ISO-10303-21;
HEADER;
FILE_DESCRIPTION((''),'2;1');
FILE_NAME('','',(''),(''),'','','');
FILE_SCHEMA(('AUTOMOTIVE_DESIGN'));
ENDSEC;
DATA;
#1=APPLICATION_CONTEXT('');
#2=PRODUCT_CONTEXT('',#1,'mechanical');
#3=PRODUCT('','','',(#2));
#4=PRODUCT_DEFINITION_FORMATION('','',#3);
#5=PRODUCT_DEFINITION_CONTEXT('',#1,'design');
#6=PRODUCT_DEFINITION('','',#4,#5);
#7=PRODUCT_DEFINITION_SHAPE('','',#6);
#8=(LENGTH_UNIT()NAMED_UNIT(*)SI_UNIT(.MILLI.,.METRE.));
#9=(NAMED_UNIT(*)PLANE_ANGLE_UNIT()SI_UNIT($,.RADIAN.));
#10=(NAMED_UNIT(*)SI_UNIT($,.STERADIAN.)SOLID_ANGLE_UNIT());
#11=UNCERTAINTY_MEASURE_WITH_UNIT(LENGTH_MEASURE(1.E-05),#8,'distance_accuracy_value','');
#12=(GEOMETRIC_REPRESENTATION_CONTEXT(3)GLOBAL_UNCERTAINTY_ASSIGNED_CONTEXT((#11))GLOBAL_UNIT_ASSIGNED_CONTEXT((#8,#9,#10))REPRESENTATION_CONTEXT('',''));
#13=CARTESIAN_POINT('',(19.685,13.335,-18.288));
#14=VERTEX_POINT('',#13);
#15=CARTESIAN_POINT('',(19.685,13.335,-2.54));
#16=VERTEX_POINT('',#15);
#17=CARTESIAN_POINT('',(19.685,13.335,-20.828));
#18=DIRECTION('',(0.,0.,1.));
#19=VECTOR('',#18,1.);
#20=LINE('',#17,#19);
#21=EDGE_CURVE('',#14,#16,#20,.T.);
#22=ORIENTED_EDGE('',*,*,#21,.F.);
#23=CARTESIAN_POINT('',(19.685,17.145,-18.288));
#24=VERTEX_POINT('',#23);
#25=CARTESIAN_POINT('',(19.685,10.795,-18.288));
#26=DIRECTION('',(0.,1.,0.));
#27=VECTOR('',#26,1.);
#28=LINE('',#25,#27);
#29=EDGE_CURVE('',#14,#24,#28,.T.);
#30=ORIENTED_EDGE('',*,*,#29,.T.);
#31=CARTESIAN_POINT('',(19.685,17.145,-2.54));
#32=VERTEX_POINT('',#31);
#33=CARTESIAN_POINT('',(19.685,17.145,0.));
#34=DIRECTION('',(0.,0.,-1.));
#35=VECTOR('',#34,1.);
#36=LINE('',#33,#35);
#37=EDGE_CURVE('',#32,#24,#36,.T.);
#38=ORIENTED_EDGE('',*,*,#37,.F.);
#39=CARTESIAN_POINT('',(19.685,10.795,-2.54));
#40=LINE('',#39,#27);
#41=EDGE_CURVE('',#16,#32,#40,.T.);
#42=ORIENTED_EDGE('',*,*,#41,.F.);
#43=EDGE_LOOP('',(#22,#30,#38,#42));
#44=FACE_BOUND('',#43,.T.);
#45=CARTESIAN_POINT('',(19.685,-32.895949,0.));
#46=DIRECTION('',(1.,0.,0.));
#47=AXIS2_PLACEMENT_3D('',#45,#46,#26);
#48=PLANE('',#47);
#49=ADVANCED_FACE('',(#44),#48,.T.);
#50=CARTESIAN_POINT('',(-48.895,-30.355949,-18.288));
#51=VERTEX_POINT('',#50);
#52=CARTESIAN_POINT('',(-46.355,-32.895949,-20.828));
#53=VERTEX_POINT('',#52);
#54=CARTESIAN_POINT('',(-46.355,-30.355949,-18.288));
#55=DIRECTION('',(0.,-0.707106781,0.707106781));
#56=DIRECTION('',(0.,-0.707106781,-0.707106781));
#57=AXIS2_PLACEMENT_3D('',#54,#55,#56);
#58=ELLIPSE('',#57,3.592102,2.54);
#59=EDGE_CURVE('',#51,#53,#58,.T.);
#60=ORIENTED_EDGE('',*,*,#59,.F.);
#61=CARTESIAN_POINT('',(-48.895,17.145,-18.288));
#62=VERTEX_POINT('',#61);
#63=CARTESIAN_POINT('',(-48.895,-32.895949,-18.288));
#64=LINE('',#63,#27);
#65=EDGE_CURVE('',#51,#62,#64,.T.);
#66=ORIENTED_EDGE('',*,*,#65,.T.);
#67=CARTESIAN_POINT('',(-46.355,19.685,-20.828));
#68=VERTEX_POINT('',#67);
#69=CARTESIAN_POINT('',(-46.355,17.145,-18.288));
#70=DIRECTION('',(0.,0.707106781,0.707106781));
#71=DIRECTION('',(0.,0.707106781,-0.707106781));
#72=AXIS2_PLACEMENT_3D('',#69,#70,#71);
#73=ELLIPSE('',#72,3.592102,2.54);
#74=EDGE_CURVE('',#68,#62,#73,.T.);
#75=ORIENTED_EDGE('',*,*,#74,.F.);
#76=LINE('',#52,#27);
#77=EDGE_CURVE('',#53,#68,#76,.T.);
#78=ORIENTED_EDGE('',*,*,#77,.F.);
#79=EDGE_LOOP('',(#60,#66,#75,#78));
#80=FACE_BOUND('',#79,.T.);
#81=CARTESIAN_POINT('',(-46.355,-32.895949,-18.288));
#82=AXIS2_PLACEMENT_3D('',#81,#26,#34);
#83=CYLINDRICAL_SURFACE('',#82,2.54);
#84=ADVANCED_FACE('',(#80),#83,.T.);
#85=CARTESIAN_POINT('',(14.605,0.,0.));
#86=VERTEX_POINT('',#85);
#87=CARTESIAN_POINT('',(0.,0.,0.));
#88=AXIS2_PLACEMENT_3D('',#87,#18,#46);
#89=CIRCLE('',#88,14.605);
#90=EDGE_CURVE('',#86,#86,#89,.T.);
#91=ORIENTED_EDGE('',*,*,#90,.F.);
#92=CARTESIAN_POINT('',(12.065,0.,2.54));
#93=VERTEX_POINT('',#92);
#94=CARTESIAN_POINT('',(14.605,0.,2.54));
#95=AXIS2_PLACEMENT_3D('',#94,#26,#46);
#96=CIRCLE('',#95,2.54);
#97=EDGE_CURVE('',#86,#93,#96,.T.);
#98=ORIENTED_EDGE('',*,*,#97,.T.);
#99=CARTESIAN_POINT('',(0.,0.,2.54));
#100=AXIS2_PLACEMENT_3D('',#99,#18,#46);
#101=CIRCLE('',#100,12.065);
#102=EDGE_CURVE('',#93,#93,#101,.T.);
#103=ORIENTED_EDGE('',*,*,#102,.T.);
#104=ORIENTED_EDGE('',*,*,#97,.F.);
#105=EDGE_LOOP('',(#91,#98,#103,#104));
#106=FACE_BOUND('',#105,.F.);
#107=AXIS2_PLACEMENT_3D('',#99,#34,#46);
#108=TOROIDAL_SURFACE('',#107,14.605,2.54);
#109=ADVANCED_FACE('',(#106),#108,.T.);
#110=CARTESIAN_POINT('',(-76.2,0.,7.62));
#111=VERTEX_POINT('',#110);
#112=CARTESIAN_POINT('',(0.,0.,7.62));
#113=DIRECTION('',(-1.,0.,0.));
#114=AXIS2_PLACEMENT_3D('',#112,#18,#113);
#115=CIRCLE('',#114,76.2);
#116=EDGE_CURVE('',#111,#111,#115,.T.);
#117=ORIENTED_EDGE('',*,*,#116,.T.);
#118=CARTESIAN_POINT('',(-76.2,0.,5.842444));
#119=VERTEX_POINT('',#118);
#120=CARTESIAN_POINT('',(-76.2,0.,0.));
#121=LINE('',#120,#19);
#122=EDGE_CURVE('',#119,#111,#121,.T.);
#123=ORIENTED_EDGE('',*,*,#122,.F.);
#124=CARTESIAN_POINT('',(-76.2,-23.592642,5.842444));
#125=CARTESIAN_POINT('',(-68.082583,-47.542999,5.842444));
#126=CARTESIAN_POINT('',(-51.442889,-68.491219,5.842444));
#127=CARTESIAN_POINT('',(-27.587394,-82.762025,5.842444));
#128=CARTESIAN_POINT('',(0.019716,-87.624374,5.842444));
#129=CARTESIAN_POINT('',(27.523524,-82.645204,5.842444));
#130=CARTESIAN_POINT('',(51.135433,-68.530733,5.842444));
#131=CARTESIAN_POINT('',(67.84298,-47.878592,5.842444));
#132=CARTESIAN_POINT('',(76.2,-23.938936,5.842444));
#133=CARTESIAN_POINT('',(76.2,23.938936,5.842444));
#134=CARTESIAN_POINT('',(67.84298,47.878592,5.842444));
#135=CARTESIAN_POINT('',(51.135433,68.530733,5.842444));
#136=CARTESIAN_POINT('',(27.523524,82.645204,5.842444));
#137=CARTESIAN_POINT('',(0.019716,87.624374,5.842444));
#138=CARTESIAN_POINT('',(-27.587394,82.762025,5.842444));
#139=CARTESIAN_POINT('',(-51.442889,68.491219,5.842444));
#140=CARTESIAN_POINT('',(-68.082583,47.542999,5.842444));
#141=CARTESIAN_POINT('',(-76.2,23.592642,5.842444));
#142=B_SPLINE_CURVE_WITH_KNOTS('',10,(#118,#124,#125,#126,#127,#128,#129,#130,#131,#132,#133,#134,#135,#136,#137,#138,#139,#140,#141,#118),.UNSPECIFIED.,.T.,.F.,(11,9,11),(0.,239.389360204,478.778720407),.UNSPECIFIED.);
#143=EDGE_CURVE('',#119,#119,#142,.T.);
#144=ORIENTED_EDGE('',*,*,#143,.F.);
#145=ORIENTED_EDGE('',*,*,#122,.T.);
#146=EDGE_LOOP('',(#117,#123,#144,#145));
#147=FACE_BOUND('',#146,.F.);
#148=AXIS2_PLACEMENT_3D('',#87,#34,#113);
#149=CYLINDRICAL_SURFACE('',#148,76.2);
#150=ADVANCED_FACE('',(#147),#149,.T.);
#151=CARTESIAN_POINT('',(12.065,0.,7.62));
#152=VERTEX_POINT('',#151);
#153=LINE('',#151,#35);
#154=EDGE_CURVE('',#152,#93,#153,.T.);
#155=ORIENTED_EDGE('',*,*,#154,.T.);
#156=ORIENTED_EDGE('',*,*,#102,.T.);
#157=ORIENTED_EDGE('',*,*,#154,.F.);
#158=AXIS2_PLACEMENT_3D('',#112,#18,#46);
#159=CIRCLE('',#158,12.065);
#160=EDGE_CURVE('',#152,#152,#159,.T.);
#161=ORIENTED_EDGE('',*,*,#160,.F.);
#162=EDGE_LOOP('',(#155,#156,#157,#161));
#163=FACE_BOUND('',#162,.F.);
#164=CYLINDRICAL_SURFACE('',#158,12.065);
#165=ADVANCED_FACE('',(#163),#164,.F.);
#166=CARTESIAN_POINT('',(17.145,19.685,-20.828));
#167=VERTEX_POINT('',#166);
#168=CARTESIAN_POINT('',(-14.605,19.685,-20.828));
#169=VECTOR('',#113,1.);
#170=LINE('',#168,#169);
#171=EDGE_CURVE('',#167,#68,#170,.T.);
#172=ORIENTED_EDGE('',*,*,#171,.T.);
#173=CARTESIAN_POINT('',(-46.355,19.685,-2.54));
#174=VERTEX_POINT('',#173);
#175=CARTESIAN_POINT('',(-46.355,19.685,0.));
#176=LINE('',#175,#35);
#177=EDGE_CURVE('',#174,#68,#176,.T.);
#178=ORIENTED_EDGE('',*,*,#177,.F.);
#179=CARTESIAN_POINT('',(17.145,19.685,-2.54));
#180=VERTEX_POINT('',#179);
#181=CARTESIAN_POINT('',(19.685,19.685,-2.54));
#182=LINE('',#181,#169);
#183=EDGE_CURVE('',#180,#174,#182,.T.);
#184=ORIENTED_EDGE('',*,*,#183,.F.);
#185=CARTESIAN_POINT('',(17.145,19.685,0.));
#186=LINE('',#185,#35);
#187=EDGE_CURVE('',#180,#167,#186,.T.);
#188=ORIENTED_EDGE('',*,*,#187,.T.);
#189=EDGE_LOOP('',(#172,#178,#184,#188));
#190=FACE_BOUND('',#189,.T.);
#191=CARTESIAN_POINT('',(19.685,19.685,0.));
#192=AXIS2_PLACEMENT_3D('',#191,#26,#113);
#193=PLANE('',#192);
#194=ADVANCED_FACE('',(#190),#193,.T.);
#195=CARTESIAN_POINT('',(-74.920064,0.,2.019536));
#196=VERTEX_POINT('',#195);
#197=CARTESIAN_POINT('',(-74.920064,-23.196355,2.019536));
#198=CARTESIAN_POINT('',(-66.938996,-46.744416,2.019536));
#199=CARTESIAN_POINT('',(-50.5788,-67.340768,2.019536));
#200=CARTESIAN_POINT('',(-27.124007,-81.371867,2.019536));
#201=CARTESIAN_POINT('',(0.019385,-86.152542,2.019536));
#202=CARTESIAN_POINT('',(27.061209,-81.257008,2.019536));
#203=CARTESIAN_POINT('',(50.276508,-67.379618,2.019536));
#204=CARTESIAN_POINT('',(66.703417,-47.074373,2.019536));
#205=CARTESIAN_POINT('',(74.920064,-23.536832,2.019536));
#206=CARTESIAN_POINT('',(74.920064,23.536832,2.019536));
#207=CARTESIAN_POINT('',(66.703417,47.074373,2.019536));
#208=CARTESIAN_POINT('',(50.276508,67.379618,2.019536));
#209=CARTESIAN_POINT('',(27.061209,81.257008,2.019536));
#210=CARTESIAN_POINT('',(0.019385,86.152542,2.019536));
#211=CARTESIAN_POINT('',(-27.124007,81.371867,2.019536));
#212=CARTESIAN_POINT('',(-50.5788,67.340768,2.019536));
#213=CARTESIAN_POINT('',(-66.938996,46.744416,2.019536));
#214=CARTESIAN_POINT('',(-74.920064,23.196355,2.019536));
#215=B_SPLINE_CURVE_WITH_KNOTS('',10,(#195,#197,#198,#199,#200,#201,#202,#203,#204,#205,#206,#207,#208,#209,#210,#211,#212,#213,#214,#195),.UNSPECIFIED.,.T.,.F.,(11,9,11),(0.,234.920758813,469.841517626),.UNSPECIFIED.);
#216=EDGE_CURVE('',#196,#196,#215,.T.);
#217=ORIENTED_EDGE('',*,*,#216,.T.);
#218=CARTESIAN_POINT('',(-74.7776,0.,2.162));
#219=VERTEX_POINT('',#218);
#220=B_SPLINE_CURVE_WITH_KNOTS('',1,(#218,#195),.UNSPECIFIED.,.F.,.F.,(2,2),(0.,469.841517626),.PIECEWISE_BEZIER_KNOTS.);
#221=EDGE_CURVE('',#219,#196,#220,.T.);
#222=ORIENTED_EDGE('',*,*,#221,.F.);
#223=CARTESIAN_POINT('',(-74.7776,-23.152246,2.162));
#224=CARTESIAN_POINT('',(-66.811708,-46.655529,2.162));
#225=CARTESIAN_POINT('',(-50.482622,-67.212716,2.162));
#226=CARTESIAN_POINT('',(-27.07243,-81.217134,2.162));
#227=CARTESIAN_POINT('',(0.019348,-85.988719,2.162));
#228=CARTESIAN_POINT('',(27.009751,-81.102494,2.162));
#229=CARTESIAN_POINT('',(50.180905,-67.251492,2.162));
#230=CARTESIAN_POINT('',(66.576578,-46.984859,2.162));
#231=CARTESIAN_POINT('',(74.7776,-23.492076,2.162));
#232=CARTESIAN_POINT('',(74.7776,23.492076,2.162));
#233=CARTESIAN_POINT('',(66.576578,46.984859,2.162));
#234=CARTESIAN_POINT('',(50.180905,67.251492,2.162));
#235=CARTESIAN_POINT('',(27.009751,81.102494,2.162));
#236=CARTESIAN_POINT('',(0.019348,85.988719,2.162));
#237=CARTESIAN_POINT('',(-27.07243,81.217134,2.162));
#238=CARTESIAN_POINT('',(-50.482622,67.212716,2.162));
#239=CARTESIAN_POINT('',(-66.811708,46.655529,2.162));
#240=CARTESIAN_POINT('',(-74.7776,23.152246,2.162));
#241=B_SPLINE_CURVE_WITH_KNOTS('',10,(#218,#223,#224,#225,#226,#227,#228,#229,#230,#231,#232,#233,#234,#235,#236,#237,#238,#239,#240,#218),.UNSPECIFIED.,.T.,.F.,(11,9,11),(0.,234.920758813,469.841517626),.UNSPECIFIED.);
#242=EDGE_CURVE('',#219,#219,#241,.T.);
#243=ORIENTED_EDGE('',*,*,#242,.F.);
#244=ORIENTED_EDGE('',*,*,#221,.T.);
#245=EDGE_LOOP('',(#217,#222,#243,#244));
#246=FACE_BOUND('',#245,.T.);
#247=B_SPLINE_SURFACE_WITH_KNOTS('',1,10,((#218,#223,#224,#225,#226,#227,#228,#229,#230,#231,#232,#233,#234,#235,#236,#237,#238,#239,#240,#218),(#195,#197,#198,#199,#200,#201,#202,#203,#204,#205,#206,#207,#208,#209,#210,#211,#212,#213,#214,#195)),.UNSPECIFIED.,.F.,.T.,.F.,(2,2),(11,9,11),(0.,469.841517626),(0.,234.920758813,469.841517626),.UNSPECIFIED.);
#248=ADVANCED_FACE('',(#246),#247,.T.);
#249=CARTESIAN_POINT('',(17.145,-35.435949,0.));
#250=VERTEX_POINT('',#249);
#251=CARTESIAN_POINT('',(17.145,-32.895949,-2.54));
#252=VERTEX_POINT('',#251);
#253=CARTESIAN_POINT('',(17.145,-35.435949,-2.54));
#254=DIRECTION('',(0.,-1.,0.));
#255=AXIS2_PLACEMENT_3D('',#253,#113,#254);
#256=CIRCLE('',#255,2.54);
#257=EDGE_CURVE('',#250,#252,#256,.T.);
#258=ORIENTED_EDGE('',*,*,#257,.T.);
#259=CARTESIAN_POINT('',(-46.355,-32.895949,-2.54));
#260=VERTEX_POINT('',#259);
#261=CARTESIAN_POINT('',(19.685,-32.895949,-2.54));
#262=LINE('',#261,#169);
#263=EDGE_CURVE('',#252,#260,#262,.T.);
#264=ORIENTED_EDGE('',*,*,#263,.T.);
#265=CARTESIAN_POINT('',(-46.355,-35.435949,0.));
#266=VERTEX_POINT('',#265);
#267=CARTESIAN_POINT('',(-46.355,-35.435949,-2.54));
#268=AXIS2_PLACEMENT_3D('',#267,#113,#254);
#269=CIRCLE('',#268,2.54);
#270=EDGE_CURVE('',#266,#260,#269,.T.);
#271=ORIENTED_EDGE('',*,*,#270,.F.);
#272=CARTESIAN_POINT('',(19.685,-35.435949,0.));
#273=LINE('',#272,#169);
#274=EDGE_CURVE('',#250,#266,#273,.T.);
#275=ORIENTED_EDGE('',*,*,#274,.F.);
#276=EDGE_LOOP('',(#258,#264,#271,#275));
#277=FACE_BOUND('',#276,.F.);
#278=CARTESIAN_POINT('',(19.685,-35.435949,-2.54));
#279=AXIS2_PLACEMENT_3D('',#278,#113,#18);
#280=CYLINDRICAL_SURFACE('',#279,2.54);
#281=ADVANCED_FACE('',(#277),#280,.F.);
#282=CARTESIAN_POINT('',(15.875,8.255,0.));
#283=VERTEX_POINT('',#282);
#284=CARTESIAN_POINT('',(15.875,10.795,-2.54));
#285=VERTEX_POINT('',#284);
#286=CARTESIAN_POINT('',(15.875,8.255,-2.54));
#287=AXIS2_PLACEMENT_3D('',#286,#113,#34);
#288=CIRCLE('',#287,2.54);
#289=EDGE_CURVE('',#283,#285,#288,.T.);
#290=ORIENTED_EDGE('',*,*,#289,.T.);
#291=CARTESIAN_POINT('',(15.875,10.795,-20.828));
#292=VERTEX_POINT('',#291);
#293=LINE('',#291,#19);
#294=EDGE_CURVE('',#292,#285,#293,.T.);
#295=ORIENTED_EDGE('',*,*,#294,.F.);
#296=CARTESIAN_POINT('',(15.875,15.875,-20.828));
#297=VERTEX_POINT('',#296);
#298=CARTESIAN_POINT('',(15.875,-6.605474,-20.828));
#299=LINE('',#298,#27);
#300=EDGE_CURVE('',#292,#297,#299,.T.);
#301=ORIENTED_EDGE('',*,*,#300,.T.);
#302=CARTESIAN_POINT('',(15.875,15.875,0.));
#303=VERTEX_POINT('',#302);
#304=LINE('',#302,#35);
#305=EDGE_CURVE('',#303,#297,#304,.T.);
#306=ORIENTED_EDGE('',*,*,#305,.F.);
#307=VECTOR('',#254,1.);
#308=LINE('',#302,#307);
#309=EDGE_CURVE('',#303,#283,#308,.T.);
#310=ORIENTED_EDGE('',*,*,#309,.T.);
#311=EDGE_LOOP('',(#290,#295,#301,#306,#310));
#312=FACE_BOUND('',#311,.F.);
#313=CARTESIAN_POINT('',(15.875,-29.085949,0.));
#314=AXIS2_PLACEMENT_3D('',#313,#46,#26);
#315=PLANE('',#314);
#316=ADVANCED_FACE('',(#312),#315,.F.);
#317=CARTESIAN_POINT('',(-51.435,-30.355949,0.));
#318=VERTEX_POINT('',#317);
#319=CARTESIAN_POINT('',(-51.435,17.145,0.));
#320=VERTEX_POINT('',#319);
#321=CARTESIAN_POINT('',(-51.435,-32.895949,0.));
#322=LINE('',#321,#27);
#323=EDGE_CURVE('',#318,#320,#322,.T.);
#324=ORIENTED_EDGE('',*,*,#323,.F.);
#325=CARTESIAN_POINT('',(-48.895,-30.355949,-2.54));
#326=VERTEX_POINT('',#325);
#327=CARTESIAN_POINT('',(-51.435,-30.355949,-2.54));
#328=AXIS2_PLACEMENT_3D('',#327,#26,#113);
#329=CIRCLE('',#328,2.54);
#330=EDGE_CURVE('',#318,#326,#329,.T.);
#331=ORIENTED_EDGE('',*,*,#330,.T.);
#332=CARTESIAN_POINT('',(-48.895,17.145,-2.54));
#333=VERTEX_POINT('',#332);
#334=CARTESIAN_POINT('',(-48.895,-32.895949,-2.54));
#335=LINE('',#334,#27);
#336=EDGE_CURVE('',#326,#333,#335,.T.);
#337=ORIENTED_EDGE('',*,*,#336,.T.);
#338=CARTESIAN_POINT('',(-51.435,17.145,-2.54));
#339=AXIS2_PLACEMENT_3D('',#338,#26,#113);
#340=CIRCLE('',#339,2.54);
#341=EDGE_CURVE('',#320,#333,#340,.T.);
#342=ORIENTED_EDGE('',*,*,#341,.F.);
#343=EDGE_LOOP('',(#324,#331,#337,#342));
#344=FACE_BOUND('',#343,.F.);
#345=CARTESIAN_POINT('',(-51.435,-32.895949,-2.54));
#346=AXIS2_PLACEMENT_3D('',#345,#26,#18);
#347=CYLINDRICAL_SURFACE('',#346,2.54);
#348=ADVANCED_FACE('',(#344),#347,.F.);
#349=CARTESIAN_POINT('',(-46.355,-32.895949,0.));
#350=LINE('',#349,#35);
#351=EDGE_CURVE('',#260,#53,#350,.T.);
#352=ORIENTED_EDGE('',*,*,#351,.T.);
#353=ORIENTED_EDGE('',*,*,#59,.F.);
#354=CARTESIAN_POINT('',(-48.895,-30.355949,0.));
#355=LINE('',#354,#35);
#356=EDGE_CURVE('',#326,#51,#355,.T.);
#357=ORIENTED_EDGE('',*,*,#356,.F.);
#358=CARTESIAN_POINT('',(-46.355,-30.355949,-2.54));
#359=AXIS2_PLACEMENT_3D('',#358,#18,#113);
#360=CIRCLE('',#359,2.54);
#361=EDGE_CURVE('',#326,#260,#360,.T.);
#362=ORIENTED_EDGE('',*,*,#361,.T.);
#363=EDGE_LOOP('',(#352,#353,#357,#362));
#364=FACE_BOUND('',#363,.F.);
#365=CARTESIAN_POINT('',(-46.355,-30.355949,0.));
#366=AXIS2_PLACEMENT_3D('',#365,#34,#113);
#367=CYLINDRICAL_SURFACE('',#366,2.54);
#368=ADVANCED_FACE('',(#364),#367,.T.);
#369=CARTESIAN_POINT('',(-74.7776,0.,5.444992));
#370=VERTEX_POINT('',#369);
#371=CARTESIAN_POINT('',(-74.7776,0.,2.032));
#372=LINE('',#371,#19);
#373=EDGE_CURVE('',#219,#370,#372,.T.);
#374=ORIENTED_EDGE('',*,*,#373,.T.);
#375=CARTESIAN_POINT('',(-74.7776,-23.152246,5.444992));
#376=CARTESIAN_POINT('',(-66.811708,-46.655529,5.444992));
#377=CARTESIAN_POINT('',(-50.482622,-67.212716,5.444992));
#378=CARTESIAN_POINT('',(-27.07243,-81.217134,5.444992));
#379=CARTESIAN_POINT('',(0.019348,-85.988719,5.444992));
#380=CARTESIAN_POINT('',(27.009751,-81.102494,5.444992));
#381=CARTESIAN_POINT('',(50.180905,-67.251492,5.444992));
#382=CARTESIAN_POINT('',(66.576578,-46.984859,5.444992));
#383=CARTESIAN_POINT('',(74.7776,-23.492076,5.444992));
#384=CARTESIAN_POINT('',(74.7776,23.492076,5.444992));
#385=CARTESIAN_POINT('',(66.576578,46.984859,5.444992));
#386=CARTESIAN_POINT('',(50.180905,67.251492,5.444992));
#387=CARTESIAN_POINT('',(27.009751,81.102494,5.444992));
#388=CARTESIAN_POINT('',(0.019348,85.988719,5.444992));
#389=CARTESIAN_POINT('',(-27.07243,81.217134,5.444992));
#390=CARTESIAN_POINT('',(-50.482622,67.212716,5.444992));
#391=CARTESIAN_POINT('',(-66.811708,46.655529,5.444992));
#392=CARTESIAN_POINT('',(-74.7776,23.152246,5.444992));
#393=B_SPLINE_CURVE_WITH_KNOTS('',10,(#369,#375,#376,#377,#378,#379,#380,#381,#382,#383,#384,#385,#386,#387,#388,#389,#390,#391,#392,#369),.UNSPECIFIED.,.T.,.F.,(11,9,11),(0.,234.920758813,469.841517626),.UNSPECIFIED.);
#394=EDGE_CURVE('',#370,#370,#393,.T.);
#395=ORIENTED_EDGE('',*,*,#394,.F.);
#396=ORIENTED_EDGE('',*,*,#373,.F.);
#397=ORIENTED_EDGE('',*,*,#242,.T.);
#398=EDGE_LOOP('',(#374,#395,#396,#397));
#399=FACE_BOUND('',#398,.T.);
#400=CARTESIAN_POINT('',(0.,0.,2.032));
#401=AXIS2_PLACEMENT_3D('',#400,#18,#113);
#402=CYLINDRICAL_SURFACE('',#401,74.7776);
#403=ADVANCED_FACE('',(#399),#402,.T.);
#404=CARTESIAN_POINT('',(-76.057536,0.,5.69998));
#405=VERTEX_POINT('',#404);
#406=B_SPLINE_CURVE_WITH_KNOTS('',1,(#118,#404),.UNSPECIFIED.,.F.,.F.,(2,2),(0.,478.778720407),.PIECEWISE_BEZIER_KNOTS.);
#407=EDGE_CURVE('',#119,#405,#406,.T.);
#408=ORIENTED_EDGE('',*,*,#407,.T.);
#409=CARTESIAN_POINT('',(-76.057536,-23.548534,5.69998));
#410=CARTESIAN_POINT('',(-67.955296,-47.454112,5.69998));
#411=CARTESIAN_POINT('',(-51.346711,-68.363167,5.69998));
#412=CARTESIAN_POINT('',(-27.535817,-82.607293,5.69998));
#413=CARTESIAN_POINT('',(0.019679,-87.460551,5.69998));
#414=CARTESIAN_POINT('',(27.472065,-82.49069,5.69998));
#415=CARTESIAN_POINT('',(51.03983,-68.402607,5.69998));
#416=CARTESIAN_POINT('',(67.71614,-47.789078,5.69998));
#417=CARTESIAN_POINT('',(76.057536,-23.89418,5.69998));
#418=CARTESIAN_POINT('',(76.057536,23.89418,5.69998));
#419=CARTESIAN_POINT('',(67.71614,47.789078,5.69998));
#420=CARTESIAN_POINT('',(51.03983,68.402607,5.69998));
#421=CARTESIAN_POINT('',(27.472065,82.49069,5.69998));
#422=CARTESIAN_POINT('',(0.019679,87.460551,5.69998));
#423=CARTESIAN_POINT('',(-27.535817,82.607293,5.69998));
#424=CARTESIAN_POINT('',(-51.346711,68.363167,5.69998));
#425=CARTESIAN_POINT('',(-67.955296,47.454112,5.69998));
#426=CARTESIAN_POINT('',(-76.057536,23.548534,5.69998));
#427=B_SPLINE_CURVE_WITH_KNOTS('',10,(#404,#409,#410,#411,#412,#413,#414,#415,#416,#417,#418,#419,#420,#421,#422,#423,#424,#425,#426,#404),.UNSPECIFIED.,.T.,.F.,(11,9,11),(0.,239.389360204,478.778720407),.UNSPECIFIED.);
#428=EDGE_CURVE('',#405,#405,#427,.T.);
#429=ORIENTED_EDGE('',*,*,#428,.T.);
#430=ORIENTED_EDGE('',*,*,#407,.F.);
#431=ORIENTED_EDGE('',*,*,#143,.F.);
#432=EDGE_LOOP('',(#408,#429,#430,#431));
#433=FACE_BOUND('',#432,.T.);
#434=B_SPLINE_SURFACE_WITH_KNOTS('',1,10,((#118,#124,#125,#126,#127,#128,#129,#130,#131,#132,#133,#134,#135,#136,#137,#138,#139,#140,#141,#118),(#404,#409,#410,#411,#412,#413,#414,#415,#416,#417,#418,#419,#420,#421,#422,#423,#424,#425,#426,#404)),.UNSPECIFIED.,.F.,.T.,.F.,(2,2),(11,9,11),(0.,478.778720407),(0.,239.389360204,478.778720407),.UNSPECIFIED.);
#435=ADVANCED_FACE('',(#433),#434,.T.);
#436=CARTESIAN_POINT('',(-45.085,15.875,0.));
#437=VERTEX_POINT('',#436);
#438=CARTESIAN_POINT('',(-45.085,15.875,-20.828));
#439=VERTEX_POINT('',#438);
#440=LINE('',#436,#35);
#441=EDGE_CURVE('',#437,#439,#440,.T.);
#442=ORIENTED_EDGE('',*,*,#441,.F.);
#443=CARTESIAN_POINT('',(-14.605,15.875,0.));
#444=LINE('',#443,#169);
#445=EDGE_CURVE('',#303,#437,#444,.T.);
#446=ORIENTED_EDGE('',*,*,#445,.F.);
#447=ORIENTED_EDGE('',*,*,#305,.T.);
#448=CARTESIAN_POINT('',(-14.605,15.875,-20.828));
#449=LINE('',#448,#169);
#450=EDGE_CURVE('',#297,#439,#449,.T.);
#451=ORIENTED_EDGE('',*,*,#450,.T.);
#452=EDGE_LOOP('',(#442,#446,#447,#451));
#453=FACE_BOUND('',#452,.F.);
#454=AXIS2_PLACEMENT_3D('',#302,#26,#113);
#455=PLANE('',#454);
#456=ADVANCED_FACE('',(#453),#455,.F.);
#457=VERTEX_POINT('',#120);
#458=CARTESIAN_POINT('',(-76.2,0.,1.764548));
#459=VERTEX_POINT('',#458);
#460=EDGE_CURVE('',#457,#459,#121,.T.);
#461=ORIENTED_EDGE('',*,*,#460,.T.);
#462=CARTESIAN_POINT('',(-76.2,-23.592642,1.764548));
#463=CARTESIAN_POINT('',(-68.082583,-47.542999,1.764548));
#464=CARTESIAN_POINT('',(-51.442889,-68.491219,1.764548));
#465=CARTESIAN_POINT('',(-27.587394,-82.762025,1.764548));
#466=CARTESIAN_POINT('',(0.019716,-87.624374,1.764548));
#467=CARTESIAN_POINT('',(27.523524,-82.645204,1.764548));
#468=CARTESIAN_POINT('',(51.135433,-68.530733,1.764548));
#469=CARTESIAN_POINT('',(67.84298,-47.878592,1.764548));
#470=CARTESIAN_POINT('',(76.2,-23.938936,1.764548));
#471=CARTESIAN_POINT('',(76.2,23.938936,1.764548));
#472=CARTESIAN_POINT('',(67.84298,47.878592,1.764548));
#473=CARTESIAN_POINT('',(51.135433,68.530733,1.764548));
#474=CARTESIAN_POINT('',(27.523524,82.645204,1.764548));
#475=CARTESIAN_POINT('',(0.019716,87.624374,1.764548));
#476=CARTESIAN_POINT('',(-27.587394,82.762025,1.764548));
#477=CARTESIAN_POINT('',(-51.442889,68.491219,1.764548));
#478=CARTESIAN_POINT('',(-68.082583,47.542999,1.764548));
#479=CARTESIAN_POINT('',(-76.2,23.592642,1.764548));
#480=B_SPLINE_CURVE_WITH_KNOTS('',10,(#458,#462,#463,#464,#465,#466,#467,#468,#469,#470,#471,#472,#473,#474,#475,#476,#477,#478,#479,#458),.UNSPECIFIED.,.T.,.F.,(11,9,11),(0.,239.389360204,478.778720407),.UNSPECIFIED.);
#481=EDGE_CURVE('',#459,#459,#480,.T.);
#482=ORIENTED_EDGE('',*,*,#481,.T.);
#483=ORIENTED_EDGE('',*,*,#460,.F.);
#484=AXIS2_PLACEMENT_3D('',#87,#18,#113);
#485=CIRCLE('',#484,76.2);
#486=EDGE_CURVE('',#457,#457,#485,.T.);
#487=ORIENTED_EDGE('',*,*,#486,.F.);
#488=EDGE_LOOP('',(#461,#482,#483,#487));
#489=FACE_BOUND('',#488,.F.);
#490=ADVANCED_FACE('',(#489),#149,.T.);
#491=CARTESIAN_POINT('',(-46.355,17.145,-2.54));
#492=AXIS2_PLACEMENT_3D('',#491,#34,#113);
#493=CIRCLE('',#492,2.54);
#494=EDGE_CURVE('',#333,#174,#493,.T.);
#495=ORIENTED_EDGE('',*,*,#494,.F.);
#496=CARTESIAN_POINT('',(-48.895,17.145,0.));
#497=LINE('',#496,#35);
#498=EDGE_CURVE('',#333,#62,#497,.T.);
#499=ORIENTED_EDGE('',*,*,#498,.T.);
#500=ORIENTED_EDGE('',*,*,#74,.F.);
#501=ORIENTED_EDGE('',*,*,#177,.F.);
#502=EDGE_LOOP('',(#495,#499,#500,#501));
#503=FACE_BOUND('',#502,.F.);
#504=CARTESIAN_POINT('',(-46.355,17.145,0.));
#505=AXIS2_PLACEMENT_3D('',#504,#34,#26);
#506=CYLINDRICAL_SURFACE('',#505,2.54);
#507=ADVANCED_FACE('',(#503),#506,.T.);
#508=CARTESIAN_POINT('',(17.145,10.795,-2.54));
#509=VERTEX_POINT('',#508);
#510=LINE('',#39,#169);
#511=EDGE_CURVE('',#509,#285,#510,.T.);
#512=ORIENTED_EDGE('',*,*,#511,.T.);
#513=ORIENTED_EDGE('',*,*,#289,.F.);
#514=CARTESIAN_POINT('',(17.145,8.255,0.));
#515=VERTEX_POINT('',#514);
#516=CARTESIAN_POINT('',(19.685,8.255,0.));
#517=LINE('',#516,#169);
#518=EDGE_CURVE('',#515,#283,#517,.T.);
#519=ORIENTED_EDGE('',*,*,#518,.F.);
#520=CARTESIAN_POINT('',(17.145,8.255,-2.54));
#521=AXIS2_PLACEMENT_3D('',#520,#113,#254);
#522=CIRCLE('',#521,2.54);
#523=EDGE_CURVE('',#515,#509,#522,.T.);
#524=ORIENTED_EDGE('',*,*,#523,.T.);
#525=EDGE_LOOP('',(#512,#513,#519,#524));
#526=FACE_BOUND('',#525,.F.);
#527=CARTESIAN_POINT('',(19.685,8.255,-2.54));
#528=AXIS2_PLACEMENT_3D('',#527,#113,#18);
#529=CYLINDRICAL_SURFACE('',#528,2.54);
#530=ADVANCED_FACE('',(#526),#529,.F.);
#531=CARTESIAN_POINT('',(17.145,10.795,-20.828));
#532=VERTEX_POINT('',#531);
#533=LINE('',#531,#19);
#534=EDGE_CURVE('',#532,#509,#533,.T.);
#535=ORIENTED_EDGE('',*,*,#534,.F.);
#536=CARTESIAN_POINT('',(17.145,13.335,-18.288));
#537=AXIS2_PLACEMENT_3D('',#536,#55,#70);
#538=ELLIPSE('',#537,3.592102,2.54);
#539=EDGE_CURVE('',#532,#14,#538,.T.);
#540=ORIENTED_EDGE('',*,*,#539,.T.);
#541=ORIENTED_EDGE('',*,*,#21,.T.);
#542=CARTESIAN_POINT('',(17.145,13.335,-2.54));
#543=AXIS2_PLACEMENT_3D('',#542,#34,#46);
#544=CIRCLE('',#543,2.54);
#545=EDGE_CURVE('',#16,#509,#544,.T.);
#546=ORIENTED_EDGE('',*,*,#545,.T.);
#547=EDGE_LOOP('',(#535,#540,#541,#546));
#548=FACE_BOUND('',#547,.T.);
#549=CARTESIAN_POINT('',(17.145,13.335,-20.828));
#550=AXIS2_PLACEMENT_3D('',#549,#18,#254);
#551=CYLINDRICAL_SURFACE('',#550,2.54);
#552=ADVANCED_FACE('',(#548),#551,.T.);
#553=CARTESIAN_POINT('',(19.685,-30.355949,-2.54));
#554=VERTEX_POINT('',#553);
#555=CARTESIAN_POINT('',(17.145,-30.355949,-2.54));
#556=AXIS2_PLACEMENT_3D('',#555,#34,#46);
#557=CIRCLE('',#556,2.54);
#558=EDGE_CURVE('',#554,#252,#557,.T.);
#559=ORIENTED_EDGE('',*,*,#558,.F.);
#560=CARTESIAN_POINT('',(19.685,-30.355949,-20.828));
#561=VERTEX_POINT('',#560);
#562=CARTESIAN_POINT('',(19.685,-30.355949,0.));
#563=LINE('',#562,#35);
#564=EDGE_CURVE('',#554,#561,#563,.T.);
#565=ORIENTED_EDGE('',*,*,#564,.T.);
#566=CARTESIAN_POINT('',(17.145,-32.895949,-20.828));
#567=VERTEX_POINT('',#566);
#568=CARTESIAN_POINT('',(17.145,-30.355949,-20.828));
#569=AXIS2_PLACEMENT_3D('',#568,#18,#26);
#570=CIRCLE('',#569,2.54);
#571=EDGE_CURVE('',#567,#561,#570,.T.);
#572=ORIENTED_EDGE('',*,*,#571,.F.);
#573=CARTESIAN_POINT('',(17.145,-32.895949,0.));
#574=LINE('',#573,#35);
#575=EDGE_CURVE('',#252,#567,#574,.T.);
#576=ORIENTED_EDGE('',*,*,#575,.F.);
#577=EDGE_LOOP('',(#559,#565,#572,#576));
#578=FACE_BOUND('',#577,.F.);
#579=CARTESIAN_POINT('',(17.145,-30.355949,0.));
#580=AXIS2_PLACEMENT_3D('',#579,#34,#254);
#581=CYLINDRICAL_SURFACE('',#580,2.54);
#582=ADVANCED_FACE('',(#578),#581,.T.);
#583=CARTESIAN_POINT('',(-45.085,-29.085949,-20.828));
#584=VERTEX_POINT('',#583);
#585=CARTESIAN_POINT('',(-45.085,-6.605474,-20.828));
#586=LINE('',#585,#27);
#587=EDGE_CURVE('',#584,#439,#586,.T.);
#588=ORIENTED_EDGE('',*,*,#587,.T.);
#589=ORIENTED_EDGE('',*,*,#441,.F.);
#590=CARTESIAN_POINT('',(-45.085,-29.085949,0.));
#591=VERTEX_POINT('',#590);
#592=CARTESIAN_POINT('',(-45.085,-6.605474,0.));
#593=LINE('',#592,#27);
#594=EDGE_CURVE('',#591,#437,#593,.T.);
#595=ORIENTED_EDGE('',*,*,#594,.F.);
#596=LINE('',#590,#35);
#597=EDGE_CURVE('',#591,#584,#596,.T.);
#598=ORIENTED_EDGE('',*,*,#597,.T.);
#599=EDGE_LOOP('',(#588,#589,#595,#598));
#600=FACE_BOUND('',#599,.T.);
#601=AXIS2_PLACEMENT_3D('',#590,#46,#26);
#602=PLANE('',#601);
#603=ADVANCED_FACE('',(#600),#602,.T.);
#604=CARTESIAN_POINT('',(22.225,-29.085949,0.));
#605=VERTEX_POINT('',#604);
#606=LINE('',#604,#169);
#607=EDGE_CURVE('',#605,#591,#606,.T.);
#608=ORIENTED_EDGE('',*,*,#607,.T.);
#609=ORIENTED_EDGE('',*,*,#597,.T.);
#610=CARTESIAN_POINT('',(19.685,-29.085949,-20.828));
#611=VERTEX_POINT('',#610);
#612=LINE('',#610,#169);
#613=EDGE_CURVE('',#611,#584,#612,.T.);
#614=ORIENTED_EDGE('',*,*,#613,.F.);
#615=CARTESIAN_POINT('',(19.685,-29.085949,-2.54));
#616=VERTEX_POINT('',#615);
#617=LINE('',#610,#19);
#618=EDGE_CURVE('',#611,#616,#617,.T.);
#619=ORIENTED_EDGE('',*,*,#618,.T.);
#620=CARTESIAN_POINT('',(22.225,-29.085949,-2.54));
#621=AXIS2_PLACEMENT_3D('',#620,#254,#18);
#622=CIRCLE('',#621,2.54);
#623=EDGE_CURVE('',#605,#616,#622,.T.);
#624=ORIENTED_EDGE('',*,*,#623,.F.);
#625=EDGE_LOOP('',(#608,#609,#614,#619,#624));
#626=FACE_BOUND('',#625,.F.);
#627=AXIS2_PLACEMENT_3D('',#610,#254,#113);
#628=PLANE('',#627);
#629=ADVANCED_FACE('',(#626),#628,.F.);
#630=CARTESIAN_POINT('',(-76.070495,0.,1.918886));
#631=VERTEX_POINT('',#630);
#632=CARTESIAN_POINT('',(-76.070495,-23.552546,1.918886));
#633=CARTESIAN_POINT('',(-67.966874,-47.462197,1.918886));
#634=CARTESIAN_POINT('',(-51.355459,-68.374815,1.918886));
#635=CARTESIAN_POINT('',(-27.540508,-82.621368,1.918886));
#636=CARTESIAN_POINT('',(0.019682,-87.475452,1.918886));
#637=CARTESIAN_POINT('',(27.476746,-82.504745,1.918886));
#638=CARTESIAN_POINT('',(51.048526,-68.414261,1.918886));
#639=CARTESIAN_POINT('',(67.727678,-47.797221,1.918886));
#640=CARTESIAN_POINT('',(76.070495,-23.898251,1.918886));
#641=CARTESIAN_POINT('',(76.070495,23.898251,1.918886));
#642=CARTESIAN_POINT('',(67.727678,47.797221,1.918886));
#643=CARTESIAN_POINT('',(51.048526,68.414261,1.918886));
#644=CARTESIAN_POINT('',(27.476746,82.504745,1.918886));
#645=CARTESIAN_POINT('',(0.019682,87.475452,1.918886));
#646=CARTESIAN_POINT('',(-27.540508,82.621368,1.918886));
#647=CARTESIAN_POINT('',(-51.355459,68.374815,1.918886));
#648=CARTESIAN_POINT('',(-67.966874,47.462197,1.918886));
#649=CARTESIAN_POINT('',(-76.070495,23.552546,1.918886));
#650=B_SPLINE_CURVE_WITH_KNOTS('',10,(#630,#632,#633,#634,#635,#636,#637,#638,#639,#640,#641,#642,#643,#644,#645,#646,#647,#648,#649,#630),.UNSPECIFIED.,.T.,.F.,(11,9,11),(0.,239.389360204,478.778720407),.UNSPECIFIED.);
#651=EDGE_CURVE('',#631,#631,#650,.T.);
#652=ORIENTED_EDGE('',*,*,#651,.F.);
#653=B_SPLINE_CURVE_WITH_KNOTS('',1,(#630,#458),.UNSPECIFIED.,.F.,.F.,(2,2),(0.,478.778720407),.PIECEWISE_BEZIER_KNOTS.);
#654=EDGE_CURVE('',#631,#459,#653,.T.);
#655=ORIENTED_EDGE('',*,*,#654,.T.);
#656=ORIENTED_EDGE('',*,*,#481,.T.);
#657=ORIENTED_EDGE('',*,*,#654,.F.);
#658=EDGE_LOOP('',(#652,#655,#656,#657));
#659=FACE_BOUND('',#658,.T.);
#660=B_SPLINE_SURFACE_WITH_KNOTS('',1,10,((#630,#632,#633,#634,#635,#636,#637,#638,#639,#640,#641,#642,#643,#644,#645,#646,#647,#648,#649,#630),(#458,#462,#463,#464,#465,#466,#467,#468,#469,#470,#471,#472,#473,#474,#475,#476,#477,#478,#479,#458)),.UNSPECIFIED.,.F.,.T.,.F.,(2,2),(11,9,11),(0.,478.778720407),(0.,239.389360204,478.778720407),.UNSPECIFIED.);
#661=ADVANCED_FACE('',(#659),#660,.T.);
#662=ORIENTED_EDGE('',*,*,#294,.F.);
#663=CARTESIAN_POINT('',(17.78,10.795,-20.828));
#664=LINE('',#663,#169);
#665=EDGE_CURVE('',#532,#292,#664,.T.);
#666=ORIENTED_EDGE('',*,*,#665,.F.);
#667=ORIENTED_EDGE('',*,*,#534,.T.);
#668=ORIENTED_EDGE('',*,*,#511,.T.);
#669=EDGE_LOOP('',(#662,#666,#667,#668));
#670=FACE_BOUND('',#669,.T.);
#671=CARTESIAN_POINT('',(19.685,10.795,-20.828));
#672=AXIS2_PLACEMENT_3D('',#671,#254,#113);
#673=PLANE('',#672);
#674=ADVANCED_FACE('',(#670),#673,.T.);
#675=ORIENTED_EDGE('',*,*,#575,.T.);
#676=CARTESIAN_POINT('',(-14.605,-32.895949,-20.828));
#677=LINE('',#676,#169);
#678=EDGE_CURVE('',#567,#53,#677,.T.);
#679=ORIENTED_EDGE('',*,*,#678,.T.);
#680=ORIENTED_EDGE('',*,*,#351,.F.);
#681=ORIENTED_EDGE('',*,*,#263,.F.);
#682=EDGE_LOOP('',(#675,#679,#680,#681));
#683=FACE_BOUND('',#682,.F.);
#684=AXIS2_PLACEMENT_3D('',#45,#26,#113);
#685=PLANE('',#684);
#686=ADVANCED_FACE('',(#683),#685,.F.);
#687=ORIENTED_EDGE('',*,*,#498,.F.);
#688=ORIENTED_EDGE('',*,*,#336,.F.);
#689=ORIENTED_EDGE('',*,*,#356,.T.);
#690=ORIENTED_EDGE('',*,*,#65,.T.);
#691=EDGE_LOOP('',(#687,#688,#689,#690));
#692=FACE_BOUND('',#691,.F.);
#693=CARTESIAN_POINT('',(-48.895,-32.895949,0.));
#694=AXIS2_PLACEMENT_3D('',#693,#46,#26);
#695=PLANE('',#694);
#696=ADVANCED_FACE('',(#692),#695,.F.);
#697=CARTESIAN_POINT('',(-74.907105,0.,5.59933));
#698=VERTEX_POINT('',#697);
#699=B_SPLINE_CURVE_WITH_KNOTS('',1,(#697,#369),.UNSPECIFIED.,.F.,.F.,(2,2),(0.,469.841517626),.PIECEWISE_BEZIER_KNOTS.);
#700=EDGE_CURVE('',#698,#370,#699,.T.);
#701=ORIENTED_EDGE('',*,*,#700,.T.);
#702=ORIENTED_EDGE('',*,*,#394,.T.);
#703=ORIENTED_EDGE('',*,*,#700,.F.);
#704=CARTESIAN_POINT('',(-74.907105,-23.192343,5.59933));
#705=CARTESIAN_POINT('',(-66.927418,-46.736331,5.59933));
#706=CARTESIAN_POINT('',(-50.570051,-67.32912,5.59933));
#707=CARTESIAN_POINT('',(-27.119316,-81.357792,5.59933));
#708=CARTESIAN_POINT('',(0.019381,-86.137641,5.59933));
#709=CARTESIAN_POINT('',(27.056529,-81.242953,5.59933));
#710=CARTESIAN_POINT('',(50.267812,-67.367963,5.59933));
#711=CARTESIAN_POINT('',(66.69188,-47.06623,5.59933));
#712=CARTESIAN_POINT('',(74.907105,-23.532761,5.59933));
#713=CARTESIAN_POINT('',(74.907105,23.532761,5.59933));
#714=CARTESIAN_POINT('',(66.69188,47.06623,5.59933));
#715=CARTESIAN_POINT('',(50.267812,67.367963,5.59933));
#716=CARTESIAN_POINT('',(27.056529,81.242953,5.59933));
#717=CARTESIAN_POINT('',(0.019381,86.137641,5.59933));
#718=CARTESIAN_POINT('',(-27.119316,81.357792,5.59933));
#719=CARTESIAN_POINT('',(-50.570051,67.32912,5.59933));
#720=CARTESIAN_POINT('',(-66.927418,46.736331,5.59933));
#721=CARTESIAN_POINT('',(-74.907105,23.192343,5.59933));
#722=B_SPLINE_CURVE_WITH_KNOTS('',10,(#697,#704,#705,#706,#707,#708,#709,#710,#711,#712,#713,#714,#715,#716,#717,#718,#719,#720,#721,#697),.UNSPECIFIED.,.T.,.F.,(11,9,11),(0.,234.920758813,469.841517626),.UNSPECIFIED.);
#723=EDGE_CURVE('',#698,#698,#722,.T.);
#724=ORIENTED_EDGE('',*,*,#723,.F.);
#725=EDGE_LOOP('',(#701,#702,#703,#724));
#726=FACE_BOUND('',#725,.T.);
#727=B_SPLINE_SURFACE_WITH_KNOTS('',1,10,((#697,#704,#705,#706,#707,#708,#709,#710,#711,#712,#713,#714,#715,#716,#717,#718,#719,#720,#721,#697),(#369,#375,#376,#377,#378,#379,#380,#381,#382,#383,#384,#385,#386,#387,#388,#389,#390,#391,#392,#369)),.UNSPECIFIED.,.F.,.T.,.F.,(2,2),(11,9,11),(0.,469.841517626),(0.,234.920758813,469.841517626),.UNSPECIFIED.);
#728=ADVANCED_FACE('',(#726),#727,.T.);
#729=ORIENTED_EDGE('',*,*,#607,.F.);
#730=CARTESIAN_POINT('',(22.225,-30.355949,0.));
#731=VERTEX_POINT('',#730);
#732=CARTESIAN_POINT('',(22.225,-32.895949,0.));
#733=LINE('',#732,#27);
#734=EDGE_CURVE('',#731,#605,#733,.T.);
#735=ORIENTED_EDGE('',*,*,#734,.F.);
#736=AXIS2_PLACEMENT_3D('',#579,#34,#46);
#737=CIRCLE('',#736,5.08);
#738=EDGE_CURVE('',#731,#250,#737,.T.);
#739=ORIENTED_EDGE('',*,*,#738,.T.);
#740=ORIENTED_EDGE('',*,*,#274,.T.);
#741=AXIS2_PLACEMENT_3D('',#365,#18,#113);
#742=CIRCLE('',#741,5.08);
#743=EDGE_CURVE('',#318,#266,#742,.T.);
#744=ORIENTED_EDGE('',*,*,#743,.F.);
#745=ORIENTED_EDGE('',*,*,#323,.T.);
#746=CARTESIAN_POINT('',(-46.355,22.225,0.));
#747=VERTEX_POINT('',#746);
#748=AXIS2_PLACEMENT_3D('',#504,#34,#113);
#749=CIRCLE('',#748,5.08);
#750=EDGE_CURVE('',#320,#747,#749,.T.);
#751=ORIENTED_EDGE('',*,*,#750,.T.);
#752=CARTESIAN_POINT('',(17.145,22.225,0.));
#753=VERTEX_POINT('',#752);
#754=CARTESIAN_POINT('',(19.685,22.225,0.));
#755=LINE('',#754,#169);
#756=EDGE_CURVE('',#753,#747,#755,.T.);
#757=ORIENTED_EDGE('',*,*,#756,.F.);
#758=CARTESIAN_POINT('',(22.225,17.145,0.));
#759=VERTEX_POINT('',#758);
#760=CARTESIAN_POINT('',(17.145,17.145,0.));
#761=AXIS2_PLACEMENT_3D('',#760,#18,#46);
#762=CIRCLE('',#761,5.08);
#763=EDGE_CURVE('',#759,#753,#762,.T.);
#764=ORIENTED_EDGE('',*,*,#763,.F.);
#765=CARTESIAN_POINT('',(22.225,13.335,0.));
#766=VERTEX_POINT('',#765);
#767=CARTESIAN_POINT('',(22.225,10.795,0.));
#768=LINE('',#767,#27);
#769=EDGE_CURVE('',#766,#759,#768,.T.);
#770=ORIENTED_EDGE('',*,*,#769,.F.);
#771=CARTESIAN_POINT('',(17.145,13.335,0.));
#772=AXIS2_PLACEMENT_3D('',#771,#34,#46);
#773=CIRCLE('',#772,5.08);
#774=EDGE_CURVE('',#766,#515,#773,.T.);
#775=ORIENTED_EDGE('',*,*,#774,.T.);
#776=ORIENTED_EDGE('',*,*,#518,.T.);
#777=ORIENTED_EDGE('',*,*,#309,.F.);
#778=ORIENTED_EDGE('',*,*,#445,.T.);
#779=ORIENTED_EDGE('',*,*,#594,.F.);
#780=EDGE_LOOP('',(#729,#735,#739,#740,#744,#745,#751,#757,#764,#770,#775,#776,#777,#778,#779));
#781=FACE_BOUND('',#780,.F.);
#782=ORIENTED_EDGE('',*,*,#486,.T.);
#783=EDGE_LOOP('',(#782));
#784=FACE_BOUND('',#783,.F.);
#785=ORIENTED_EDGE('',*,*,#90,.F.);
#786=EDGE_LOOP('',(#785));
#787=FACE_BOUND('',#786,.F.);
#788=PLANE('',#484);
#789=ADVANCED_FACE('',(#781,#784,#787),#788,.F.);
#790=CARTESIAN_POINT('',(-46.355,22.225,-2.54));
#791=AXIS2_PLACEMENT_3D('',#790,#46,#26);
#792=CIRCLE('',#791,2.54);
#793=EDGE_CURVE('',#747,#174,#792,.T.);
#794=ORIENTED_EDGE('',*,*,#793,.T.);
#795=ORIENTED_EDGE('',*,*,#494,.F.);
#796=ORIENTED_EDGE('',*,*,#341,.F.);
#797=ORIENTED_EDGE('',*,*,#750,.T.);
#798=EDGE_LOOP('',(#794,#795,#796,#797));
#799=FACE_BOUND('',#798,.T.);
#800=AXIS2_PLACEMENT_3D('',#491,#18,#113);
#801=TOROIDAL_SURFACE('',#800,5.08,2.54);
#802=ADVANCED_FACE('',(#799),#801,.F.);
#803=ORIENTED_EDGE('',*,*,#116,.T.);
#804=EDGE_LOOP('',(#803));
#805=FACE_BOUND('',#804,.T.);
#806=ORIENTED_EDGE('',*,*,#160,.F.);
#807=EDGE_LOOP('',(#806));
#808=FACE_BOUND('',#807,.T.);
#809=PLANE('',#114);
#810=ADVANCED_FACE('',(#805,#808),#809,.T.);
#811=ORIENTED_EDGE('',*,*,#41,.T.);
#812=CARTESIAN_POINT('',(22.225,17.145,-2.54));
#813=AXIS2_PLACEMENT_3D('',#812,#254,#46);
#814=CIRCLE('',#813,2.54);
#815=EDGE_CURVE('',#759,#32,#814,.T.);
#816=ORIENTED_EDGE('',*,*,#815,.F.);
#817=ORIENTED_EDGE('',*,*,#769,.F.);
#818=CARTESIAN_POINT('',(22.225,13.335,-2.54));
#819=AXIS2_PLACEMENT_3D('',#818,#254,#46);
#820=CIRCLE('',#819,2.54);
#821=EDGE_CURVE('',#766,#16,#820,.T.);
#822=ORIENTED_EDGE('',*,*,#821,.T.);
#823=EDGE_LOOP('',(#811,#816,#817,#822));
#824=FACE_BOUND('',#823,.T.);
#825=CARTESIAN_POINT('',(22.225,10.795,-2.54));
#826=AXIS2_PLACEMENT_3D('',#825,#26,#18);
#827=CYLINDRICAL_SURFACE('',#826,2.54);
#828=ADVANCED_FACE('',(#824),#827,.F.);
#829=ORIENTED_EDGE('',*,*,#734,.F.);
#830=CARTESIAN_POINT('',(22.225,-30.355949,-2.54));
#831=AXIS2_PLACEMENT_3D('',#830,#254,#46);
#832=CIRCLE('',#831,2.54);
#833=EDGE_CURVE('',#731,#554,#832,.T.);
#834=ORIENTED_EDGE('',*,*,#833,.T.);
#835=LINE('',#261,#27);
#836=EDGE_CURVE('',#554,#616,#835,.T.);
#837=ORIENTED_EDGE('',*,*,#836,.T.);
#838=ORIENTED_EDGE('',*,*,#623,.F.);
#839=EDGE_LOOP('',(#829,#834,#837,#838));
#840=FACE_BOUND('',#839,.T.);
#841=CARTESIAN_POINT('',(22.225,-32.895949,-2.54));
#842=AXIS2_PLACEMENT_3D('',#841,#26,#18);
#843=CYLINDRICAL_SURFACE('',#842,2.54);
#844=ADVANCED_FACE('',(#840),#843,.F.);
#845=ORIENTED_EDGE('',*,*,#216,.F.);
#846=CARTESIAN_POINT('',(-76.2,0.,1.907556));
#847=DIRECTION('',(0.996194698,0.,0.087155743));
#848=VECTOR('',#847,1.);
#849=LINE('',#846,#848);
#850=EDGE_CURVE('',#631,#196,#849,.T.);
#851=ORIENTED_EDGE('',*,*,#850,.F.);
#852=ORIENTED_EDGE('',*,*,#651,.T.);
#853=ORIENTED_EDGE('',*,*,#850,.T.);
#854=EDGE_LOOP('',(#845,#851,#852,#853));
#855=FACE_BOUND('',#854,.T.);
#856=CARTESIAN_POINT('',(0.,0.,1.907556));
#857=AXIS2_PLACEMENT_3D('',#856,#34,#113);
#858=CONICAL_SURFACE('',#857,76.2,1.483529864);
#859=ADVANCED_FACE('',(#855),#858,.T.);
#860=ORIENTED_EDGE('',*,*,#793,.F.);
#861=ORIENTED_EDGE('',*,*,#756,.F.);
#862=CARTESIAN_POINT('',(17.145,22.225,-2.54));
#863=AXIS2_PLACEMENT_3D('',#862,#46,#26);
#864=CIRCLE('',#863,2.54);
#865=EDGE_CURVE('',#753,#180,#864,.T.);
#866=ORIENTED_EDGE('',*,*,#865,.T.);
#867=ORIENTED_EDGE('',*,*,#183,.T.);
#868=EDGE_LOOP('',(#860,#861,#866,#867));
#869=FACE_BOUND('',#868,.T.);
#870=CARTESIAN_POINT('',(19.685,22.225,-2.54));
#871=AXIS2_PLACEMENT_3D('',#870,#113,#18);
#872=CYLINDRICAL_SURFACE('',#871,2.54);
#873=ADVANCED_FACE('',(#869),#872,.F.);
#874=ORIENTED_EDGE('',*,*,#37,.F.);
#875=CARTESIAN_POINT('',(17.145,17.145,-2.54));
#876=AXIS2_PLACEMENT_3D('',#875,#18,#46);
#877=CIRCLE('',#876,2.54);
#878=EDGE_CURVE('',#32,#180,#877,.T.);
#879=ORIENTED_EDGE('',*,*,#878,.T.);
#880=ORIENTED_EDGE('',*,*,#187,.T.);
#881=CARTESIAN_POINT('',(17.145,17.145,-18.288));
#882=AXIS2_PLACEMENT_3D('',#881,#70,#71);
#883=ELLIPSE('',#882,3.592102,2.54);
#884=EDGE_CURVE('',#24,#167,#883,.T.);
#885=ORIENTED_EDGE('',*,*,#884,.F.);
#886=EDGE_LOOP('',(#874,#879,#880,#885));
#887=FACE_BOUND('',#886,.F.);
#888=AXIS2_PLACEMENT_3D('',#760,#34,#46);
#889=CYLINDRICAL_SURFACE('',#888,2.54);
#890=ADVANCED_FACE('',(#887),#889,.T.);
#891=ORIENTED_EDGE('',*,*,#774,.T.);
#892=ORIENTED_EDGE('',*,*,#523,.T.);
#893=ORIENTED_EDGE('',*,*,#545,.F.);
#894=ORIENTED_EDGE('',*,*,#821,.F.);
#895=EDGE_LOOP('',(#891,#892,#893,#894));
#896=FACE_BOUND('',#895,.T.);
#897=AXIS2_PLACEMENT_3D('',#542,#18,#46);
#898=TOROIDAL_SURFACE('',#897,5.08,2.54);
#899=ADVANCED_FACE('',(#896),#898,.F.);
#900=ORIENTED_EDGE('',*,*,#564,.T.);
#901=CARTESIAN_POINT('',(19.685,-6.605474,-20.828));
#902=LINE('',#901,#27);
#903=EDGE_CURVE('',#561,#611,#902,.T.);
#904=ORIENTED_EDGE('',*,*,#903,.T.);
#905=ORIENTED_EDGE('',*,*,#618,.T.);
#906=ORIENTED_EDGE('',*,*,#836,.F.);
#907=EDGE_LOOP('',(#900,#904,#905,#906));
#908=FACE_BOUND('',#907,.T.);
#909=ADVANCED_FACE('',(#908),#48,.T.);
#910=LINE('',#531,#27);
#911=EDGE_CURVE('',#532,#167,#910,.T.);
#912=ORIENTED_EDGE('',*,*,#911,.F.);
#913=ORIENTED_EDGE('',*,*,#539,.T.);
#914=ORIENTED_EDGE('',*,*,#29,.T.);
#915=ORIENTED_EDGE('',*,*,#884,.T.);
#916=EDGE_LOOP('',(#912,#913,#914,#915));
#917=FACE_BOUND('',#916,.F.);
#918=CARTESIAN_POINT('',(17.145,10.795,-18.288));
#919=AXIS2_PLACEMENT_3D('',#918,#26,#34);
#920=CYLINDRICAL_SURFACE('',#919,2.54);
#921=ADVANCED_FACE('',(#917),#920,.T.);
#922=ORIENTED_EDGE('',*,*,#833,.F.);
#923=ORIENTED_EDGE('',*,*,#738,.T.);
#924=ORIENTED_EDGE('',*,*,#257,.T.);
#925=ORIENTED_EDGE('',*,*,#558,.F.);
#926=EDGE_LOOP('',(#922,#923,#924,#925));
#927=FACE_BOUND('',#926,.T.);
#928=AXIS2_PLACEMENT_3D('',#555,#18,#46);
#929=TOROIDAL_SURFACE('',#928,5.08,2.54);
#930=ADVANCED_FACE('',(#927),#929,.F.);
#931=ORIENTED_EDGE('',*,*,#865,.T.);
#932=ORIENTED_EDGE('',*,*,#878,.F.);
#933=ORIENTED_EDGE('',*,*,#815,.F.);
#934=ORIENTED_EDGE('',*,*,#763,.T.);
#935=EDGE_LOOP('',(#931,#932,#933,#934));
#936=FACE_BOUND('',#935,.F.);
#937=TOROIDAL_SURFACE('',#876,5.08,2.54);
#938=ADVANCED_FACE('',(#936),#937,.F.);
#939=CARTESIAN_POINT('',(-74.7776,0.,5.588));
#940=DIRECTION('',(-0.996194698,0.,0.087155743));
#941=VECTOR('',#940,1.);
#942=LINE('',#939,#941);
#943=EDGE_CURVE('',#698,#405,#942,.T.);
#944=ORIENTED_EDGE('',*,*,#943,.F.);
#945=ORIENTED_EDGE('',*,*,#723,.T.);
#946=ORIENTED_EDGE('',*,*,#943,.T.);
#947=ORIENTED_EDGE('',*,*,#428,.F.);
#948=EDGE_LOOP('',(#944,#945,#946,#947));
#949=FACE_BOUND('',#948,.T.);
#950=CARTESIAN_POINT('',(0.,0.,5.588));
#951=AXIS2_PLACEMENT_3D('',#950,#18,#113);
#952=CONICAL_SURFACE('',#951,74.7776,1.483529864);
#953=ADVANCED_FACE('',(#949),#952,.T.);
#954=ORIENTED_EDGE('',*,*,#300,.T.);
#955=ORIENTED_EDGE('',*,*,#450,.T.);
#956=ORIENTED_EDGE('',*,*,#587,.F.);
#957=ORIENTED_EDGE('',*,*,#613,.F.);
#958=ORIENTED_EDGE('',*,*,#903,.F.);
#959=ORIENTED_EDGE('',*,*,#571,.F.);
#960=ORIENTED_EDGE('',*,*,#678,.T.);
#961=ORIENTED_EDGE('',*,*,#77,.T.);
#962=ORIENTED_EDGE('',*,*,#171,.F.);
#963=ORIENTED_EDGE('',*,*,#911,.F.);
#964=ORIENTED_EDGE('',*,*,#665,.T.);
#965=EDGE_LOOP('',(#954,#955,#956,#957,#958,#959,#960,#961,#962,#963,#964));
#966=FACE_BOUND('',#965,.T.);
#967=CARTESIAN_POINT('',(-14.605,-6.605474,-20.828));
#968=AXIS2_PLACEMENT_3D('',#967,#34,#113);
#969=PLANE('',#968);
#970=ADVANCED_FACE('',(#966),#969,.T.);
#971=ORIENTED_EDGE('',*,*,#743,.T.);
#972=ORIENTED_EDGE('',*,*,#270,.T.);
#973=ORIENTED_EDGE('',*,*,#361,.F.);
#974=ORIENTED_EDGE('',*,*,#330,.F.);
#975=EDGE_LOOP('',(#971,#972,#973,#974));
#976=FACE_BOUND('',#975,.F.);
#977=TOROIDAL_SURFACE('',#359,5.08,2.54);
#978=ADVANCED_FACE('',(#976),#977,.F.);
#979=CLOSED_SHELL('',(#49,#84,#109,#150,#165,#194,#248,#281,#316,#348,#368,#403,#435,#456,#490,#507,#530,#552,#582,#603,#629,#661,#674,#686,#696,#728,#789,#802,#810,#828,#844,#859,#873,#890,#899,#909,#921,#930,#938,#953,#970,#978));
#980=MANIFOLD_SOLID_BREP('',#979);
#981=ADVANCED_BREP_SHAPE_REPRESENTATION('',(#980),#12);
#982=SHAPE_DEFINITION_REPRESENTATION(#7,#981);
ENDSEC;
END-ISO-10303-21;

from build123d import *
from OCP.BRepFilletAPI import BRepFilletAPI_MakeChamfer

# Parameters (mm, degrees)
SKETCH1_R           = 76.2
BOSS_EXTRUDE1_DEPTH = 7.62
CHAMFER1_SIZE       = 0.13
CHAMFER1_SIZE2      = 0.143008173
SKETCH3_R           = 12.065
CUT_EXTRUDE1_DEPTH  = 7.62
SKETCH4_W           = 68.58
SKETCH4_H           = 52.580948596
SKETCH4_W_2         = 60.96
SKETCH4_H_2         = 44.960948596
BOSS_EXTRUDE2_DEPTH = 20.828
SKETCH5_W           = 3.81
SKETCH5_H           = 39.880948596
CUT_EXTRUDE3_DEPTH  = 20.828
FILLET1_R           = 2.54


with BuildPart() as part:
    # Sketch1 → Boss-Extrude1 (new body)
    with BuildSketch(Plane.XY):
        with Locations(Location((0, 0, 0), (0, 0, 180))):
            Circle(SKETCH1_R)
    extrude(amount=BOSS_EXTRUDE1_DEPTH)

    # Sketch2 → Cut-Revolve1 (revolve, cut)
    with BuildSketch(Plane(origin=(0, 0, 0), x_dir=(0, 0, -1), z_dir=(1, 0, 0)), mode=Mode.PRIVATE) as cut_revolve1_sk:
        Polygon((-1.907556125, 76.2), (-2.032, 74.7776), (-5.588, 74.7776), (-5.712443875, 76.2), align=None)
    revolve(cut_revolve1_sk.sketch.rotate(Axis((0, 0, 0), (0, 0, 1)), 90), axis=Axis((0, 0, 0), (0, 0, 1)), mode=Mode.SUBTRACT)

    # Chamfer1: one chamfer whose edges measure the first distance from different faces: ONE call of the kernel's chamfer builder (chamfer() names one face for all edges)
    chamfer1_edges_1 = [part.edges().sort_by_distance(p)[0] for p in [
        (76.2, 0, 5.712443875),
    ]]
    chamfer1_side_1 = [part.faces().sort_by_distance(p)[0] for p in [
        (76.2, 0, 6.666221937),
    ]]
    chamfer1_edges_2 = [part.edges().sort_by_distance(p)[0] for p in [
        (76.2, 0, 1.907556125),
    ]]
    chamfer1_side_2 = [part.faces().sort_by_distance(p)[0] for p in [
        (75.4888, 0, 1.969778063),
    ]]
    chamfer1_edges_3 = [part.edges().sort_by_distance(p)[0] for p in [
        (74.7776, 0, 2.032),
    ]]
    chamfer1_side_3 = [part.faces().sort_by_distance(p)[0] for p in [
        (74.7776, 0, 3.81),
    ]]
    chamfer1_edges_4 = [part.edges().sort_by_distance(p)[0] for p in [
        (74.7776, 0, 5.588),
    ]]
    chamfer1_side_4 = [part.faces().sort_by_distance(p)[0] for p in [
        (75.4888, 0, 5.650221937),
    ]]
    chamfer1 = BRepFilletAPI_MakeChamfer(part.part.solid().wrapped)
    for e in chamfer1_edges_1:
        chamfer1.Add(CHAMFER1_SIZE, CHAMFER1_SIZE2, e.wrapped, chamfer1_side_1[0].wrapped)  # the first distance lies on this face
    for e in chamfer1_edges_2:
        chamfer1.Add(CHAMFER1_SIZE, CHAMFER1_SIZE2, e.wrapped, chamfer1_side_2[0].wrapped)  # the first distance lies on this face
    for e in chamfer1_edges_3:
        chamfer1.Add(CHAMFER1_SIZE, CHAMFER1_SIZE2, e.wrapped, chamfer1_side_3[0].wrapped)  # the first distance lies on this face
    for e in chamfer1_edges_4:
        chamfer1.Add(CHAMFER1_SIZE, CHAMFER1_SIZE2, e.wrapped, chamfer1_side_4[0].wrapped)  # the first distance lies on this face
    add(Compound.cast(chamfer1.Shape()), mode=Mode.REPLACE)

    # Sketch3 → Cut-Extrude1 (cut)
    with BuildSketch(Plane.XY.offset(7.62)):
        Circle(SKETCH3_R)
    extrude(amount=-CUT_EXTRUDE1_DEPTH, mode=Mode.SUBTRACT)

    # Sketch4 → Boss-Extrude2 (add)
    with BuildSketch(Plane(origin=(0, 0, 0), x_dir=(-1, 0, 0), z_dir=(0, 0, -1))):
        with Locations((14.605, -6.605474298)):
            Rectangle(SKETCH4_W, SKETCH4_H)
        with Locations((14.605, -6.605474298)):
            Rectangle(SKETCH4_W_2, SKETCH4_H_2, mode=Mode.SUBTRACT)
    extrude(amount=BOSS_EXTRUDE2_DEPTH)

    # Sketch5 → Cut-Extrude3 (cut)
    with BuildSketch(Plane(origin=(0, 0, -20.828), x_dir=(-1, 0, 0), z_dir=(0, 0, -1))):
        with Locations((-17.78, -9.145474298)):
            Rectangle(SKETCH5_W, SKETCH5_H)
    extrude(amount=-CUT_EXTRUDE3_DEPTH, mode=Mode.SUBTRACT)

    # Fillet1
    fillet1_edges = [part.edges().sort_by_distance(p)[0] for p in [
        (-12.065, 0, 0),
        (19.685, -30.990948596, 0),
        (17.78, 10.795, 0),
        (-14.605, -32.895948596, 0),
        (-14.605, 19.685, 0),
        (19.685, 19.685, -10.414),
        (19.685, 15.24, -20.828),
        (19.685, 10.795, -10.414),
        (19.685, 15.24, 0),
        (-48.895, -32.895948596, -10.414),
        (-48.895, -6.605474298, -20.828),
        (-48.895, 19.685, -10.414),
        (-48.895, -6.605474298, 0),
        (19.685, -32.895948596, -10.414),
    ]]
    fillet(fillet1_edges, radius=FILLET1_R)


solid = part.part
